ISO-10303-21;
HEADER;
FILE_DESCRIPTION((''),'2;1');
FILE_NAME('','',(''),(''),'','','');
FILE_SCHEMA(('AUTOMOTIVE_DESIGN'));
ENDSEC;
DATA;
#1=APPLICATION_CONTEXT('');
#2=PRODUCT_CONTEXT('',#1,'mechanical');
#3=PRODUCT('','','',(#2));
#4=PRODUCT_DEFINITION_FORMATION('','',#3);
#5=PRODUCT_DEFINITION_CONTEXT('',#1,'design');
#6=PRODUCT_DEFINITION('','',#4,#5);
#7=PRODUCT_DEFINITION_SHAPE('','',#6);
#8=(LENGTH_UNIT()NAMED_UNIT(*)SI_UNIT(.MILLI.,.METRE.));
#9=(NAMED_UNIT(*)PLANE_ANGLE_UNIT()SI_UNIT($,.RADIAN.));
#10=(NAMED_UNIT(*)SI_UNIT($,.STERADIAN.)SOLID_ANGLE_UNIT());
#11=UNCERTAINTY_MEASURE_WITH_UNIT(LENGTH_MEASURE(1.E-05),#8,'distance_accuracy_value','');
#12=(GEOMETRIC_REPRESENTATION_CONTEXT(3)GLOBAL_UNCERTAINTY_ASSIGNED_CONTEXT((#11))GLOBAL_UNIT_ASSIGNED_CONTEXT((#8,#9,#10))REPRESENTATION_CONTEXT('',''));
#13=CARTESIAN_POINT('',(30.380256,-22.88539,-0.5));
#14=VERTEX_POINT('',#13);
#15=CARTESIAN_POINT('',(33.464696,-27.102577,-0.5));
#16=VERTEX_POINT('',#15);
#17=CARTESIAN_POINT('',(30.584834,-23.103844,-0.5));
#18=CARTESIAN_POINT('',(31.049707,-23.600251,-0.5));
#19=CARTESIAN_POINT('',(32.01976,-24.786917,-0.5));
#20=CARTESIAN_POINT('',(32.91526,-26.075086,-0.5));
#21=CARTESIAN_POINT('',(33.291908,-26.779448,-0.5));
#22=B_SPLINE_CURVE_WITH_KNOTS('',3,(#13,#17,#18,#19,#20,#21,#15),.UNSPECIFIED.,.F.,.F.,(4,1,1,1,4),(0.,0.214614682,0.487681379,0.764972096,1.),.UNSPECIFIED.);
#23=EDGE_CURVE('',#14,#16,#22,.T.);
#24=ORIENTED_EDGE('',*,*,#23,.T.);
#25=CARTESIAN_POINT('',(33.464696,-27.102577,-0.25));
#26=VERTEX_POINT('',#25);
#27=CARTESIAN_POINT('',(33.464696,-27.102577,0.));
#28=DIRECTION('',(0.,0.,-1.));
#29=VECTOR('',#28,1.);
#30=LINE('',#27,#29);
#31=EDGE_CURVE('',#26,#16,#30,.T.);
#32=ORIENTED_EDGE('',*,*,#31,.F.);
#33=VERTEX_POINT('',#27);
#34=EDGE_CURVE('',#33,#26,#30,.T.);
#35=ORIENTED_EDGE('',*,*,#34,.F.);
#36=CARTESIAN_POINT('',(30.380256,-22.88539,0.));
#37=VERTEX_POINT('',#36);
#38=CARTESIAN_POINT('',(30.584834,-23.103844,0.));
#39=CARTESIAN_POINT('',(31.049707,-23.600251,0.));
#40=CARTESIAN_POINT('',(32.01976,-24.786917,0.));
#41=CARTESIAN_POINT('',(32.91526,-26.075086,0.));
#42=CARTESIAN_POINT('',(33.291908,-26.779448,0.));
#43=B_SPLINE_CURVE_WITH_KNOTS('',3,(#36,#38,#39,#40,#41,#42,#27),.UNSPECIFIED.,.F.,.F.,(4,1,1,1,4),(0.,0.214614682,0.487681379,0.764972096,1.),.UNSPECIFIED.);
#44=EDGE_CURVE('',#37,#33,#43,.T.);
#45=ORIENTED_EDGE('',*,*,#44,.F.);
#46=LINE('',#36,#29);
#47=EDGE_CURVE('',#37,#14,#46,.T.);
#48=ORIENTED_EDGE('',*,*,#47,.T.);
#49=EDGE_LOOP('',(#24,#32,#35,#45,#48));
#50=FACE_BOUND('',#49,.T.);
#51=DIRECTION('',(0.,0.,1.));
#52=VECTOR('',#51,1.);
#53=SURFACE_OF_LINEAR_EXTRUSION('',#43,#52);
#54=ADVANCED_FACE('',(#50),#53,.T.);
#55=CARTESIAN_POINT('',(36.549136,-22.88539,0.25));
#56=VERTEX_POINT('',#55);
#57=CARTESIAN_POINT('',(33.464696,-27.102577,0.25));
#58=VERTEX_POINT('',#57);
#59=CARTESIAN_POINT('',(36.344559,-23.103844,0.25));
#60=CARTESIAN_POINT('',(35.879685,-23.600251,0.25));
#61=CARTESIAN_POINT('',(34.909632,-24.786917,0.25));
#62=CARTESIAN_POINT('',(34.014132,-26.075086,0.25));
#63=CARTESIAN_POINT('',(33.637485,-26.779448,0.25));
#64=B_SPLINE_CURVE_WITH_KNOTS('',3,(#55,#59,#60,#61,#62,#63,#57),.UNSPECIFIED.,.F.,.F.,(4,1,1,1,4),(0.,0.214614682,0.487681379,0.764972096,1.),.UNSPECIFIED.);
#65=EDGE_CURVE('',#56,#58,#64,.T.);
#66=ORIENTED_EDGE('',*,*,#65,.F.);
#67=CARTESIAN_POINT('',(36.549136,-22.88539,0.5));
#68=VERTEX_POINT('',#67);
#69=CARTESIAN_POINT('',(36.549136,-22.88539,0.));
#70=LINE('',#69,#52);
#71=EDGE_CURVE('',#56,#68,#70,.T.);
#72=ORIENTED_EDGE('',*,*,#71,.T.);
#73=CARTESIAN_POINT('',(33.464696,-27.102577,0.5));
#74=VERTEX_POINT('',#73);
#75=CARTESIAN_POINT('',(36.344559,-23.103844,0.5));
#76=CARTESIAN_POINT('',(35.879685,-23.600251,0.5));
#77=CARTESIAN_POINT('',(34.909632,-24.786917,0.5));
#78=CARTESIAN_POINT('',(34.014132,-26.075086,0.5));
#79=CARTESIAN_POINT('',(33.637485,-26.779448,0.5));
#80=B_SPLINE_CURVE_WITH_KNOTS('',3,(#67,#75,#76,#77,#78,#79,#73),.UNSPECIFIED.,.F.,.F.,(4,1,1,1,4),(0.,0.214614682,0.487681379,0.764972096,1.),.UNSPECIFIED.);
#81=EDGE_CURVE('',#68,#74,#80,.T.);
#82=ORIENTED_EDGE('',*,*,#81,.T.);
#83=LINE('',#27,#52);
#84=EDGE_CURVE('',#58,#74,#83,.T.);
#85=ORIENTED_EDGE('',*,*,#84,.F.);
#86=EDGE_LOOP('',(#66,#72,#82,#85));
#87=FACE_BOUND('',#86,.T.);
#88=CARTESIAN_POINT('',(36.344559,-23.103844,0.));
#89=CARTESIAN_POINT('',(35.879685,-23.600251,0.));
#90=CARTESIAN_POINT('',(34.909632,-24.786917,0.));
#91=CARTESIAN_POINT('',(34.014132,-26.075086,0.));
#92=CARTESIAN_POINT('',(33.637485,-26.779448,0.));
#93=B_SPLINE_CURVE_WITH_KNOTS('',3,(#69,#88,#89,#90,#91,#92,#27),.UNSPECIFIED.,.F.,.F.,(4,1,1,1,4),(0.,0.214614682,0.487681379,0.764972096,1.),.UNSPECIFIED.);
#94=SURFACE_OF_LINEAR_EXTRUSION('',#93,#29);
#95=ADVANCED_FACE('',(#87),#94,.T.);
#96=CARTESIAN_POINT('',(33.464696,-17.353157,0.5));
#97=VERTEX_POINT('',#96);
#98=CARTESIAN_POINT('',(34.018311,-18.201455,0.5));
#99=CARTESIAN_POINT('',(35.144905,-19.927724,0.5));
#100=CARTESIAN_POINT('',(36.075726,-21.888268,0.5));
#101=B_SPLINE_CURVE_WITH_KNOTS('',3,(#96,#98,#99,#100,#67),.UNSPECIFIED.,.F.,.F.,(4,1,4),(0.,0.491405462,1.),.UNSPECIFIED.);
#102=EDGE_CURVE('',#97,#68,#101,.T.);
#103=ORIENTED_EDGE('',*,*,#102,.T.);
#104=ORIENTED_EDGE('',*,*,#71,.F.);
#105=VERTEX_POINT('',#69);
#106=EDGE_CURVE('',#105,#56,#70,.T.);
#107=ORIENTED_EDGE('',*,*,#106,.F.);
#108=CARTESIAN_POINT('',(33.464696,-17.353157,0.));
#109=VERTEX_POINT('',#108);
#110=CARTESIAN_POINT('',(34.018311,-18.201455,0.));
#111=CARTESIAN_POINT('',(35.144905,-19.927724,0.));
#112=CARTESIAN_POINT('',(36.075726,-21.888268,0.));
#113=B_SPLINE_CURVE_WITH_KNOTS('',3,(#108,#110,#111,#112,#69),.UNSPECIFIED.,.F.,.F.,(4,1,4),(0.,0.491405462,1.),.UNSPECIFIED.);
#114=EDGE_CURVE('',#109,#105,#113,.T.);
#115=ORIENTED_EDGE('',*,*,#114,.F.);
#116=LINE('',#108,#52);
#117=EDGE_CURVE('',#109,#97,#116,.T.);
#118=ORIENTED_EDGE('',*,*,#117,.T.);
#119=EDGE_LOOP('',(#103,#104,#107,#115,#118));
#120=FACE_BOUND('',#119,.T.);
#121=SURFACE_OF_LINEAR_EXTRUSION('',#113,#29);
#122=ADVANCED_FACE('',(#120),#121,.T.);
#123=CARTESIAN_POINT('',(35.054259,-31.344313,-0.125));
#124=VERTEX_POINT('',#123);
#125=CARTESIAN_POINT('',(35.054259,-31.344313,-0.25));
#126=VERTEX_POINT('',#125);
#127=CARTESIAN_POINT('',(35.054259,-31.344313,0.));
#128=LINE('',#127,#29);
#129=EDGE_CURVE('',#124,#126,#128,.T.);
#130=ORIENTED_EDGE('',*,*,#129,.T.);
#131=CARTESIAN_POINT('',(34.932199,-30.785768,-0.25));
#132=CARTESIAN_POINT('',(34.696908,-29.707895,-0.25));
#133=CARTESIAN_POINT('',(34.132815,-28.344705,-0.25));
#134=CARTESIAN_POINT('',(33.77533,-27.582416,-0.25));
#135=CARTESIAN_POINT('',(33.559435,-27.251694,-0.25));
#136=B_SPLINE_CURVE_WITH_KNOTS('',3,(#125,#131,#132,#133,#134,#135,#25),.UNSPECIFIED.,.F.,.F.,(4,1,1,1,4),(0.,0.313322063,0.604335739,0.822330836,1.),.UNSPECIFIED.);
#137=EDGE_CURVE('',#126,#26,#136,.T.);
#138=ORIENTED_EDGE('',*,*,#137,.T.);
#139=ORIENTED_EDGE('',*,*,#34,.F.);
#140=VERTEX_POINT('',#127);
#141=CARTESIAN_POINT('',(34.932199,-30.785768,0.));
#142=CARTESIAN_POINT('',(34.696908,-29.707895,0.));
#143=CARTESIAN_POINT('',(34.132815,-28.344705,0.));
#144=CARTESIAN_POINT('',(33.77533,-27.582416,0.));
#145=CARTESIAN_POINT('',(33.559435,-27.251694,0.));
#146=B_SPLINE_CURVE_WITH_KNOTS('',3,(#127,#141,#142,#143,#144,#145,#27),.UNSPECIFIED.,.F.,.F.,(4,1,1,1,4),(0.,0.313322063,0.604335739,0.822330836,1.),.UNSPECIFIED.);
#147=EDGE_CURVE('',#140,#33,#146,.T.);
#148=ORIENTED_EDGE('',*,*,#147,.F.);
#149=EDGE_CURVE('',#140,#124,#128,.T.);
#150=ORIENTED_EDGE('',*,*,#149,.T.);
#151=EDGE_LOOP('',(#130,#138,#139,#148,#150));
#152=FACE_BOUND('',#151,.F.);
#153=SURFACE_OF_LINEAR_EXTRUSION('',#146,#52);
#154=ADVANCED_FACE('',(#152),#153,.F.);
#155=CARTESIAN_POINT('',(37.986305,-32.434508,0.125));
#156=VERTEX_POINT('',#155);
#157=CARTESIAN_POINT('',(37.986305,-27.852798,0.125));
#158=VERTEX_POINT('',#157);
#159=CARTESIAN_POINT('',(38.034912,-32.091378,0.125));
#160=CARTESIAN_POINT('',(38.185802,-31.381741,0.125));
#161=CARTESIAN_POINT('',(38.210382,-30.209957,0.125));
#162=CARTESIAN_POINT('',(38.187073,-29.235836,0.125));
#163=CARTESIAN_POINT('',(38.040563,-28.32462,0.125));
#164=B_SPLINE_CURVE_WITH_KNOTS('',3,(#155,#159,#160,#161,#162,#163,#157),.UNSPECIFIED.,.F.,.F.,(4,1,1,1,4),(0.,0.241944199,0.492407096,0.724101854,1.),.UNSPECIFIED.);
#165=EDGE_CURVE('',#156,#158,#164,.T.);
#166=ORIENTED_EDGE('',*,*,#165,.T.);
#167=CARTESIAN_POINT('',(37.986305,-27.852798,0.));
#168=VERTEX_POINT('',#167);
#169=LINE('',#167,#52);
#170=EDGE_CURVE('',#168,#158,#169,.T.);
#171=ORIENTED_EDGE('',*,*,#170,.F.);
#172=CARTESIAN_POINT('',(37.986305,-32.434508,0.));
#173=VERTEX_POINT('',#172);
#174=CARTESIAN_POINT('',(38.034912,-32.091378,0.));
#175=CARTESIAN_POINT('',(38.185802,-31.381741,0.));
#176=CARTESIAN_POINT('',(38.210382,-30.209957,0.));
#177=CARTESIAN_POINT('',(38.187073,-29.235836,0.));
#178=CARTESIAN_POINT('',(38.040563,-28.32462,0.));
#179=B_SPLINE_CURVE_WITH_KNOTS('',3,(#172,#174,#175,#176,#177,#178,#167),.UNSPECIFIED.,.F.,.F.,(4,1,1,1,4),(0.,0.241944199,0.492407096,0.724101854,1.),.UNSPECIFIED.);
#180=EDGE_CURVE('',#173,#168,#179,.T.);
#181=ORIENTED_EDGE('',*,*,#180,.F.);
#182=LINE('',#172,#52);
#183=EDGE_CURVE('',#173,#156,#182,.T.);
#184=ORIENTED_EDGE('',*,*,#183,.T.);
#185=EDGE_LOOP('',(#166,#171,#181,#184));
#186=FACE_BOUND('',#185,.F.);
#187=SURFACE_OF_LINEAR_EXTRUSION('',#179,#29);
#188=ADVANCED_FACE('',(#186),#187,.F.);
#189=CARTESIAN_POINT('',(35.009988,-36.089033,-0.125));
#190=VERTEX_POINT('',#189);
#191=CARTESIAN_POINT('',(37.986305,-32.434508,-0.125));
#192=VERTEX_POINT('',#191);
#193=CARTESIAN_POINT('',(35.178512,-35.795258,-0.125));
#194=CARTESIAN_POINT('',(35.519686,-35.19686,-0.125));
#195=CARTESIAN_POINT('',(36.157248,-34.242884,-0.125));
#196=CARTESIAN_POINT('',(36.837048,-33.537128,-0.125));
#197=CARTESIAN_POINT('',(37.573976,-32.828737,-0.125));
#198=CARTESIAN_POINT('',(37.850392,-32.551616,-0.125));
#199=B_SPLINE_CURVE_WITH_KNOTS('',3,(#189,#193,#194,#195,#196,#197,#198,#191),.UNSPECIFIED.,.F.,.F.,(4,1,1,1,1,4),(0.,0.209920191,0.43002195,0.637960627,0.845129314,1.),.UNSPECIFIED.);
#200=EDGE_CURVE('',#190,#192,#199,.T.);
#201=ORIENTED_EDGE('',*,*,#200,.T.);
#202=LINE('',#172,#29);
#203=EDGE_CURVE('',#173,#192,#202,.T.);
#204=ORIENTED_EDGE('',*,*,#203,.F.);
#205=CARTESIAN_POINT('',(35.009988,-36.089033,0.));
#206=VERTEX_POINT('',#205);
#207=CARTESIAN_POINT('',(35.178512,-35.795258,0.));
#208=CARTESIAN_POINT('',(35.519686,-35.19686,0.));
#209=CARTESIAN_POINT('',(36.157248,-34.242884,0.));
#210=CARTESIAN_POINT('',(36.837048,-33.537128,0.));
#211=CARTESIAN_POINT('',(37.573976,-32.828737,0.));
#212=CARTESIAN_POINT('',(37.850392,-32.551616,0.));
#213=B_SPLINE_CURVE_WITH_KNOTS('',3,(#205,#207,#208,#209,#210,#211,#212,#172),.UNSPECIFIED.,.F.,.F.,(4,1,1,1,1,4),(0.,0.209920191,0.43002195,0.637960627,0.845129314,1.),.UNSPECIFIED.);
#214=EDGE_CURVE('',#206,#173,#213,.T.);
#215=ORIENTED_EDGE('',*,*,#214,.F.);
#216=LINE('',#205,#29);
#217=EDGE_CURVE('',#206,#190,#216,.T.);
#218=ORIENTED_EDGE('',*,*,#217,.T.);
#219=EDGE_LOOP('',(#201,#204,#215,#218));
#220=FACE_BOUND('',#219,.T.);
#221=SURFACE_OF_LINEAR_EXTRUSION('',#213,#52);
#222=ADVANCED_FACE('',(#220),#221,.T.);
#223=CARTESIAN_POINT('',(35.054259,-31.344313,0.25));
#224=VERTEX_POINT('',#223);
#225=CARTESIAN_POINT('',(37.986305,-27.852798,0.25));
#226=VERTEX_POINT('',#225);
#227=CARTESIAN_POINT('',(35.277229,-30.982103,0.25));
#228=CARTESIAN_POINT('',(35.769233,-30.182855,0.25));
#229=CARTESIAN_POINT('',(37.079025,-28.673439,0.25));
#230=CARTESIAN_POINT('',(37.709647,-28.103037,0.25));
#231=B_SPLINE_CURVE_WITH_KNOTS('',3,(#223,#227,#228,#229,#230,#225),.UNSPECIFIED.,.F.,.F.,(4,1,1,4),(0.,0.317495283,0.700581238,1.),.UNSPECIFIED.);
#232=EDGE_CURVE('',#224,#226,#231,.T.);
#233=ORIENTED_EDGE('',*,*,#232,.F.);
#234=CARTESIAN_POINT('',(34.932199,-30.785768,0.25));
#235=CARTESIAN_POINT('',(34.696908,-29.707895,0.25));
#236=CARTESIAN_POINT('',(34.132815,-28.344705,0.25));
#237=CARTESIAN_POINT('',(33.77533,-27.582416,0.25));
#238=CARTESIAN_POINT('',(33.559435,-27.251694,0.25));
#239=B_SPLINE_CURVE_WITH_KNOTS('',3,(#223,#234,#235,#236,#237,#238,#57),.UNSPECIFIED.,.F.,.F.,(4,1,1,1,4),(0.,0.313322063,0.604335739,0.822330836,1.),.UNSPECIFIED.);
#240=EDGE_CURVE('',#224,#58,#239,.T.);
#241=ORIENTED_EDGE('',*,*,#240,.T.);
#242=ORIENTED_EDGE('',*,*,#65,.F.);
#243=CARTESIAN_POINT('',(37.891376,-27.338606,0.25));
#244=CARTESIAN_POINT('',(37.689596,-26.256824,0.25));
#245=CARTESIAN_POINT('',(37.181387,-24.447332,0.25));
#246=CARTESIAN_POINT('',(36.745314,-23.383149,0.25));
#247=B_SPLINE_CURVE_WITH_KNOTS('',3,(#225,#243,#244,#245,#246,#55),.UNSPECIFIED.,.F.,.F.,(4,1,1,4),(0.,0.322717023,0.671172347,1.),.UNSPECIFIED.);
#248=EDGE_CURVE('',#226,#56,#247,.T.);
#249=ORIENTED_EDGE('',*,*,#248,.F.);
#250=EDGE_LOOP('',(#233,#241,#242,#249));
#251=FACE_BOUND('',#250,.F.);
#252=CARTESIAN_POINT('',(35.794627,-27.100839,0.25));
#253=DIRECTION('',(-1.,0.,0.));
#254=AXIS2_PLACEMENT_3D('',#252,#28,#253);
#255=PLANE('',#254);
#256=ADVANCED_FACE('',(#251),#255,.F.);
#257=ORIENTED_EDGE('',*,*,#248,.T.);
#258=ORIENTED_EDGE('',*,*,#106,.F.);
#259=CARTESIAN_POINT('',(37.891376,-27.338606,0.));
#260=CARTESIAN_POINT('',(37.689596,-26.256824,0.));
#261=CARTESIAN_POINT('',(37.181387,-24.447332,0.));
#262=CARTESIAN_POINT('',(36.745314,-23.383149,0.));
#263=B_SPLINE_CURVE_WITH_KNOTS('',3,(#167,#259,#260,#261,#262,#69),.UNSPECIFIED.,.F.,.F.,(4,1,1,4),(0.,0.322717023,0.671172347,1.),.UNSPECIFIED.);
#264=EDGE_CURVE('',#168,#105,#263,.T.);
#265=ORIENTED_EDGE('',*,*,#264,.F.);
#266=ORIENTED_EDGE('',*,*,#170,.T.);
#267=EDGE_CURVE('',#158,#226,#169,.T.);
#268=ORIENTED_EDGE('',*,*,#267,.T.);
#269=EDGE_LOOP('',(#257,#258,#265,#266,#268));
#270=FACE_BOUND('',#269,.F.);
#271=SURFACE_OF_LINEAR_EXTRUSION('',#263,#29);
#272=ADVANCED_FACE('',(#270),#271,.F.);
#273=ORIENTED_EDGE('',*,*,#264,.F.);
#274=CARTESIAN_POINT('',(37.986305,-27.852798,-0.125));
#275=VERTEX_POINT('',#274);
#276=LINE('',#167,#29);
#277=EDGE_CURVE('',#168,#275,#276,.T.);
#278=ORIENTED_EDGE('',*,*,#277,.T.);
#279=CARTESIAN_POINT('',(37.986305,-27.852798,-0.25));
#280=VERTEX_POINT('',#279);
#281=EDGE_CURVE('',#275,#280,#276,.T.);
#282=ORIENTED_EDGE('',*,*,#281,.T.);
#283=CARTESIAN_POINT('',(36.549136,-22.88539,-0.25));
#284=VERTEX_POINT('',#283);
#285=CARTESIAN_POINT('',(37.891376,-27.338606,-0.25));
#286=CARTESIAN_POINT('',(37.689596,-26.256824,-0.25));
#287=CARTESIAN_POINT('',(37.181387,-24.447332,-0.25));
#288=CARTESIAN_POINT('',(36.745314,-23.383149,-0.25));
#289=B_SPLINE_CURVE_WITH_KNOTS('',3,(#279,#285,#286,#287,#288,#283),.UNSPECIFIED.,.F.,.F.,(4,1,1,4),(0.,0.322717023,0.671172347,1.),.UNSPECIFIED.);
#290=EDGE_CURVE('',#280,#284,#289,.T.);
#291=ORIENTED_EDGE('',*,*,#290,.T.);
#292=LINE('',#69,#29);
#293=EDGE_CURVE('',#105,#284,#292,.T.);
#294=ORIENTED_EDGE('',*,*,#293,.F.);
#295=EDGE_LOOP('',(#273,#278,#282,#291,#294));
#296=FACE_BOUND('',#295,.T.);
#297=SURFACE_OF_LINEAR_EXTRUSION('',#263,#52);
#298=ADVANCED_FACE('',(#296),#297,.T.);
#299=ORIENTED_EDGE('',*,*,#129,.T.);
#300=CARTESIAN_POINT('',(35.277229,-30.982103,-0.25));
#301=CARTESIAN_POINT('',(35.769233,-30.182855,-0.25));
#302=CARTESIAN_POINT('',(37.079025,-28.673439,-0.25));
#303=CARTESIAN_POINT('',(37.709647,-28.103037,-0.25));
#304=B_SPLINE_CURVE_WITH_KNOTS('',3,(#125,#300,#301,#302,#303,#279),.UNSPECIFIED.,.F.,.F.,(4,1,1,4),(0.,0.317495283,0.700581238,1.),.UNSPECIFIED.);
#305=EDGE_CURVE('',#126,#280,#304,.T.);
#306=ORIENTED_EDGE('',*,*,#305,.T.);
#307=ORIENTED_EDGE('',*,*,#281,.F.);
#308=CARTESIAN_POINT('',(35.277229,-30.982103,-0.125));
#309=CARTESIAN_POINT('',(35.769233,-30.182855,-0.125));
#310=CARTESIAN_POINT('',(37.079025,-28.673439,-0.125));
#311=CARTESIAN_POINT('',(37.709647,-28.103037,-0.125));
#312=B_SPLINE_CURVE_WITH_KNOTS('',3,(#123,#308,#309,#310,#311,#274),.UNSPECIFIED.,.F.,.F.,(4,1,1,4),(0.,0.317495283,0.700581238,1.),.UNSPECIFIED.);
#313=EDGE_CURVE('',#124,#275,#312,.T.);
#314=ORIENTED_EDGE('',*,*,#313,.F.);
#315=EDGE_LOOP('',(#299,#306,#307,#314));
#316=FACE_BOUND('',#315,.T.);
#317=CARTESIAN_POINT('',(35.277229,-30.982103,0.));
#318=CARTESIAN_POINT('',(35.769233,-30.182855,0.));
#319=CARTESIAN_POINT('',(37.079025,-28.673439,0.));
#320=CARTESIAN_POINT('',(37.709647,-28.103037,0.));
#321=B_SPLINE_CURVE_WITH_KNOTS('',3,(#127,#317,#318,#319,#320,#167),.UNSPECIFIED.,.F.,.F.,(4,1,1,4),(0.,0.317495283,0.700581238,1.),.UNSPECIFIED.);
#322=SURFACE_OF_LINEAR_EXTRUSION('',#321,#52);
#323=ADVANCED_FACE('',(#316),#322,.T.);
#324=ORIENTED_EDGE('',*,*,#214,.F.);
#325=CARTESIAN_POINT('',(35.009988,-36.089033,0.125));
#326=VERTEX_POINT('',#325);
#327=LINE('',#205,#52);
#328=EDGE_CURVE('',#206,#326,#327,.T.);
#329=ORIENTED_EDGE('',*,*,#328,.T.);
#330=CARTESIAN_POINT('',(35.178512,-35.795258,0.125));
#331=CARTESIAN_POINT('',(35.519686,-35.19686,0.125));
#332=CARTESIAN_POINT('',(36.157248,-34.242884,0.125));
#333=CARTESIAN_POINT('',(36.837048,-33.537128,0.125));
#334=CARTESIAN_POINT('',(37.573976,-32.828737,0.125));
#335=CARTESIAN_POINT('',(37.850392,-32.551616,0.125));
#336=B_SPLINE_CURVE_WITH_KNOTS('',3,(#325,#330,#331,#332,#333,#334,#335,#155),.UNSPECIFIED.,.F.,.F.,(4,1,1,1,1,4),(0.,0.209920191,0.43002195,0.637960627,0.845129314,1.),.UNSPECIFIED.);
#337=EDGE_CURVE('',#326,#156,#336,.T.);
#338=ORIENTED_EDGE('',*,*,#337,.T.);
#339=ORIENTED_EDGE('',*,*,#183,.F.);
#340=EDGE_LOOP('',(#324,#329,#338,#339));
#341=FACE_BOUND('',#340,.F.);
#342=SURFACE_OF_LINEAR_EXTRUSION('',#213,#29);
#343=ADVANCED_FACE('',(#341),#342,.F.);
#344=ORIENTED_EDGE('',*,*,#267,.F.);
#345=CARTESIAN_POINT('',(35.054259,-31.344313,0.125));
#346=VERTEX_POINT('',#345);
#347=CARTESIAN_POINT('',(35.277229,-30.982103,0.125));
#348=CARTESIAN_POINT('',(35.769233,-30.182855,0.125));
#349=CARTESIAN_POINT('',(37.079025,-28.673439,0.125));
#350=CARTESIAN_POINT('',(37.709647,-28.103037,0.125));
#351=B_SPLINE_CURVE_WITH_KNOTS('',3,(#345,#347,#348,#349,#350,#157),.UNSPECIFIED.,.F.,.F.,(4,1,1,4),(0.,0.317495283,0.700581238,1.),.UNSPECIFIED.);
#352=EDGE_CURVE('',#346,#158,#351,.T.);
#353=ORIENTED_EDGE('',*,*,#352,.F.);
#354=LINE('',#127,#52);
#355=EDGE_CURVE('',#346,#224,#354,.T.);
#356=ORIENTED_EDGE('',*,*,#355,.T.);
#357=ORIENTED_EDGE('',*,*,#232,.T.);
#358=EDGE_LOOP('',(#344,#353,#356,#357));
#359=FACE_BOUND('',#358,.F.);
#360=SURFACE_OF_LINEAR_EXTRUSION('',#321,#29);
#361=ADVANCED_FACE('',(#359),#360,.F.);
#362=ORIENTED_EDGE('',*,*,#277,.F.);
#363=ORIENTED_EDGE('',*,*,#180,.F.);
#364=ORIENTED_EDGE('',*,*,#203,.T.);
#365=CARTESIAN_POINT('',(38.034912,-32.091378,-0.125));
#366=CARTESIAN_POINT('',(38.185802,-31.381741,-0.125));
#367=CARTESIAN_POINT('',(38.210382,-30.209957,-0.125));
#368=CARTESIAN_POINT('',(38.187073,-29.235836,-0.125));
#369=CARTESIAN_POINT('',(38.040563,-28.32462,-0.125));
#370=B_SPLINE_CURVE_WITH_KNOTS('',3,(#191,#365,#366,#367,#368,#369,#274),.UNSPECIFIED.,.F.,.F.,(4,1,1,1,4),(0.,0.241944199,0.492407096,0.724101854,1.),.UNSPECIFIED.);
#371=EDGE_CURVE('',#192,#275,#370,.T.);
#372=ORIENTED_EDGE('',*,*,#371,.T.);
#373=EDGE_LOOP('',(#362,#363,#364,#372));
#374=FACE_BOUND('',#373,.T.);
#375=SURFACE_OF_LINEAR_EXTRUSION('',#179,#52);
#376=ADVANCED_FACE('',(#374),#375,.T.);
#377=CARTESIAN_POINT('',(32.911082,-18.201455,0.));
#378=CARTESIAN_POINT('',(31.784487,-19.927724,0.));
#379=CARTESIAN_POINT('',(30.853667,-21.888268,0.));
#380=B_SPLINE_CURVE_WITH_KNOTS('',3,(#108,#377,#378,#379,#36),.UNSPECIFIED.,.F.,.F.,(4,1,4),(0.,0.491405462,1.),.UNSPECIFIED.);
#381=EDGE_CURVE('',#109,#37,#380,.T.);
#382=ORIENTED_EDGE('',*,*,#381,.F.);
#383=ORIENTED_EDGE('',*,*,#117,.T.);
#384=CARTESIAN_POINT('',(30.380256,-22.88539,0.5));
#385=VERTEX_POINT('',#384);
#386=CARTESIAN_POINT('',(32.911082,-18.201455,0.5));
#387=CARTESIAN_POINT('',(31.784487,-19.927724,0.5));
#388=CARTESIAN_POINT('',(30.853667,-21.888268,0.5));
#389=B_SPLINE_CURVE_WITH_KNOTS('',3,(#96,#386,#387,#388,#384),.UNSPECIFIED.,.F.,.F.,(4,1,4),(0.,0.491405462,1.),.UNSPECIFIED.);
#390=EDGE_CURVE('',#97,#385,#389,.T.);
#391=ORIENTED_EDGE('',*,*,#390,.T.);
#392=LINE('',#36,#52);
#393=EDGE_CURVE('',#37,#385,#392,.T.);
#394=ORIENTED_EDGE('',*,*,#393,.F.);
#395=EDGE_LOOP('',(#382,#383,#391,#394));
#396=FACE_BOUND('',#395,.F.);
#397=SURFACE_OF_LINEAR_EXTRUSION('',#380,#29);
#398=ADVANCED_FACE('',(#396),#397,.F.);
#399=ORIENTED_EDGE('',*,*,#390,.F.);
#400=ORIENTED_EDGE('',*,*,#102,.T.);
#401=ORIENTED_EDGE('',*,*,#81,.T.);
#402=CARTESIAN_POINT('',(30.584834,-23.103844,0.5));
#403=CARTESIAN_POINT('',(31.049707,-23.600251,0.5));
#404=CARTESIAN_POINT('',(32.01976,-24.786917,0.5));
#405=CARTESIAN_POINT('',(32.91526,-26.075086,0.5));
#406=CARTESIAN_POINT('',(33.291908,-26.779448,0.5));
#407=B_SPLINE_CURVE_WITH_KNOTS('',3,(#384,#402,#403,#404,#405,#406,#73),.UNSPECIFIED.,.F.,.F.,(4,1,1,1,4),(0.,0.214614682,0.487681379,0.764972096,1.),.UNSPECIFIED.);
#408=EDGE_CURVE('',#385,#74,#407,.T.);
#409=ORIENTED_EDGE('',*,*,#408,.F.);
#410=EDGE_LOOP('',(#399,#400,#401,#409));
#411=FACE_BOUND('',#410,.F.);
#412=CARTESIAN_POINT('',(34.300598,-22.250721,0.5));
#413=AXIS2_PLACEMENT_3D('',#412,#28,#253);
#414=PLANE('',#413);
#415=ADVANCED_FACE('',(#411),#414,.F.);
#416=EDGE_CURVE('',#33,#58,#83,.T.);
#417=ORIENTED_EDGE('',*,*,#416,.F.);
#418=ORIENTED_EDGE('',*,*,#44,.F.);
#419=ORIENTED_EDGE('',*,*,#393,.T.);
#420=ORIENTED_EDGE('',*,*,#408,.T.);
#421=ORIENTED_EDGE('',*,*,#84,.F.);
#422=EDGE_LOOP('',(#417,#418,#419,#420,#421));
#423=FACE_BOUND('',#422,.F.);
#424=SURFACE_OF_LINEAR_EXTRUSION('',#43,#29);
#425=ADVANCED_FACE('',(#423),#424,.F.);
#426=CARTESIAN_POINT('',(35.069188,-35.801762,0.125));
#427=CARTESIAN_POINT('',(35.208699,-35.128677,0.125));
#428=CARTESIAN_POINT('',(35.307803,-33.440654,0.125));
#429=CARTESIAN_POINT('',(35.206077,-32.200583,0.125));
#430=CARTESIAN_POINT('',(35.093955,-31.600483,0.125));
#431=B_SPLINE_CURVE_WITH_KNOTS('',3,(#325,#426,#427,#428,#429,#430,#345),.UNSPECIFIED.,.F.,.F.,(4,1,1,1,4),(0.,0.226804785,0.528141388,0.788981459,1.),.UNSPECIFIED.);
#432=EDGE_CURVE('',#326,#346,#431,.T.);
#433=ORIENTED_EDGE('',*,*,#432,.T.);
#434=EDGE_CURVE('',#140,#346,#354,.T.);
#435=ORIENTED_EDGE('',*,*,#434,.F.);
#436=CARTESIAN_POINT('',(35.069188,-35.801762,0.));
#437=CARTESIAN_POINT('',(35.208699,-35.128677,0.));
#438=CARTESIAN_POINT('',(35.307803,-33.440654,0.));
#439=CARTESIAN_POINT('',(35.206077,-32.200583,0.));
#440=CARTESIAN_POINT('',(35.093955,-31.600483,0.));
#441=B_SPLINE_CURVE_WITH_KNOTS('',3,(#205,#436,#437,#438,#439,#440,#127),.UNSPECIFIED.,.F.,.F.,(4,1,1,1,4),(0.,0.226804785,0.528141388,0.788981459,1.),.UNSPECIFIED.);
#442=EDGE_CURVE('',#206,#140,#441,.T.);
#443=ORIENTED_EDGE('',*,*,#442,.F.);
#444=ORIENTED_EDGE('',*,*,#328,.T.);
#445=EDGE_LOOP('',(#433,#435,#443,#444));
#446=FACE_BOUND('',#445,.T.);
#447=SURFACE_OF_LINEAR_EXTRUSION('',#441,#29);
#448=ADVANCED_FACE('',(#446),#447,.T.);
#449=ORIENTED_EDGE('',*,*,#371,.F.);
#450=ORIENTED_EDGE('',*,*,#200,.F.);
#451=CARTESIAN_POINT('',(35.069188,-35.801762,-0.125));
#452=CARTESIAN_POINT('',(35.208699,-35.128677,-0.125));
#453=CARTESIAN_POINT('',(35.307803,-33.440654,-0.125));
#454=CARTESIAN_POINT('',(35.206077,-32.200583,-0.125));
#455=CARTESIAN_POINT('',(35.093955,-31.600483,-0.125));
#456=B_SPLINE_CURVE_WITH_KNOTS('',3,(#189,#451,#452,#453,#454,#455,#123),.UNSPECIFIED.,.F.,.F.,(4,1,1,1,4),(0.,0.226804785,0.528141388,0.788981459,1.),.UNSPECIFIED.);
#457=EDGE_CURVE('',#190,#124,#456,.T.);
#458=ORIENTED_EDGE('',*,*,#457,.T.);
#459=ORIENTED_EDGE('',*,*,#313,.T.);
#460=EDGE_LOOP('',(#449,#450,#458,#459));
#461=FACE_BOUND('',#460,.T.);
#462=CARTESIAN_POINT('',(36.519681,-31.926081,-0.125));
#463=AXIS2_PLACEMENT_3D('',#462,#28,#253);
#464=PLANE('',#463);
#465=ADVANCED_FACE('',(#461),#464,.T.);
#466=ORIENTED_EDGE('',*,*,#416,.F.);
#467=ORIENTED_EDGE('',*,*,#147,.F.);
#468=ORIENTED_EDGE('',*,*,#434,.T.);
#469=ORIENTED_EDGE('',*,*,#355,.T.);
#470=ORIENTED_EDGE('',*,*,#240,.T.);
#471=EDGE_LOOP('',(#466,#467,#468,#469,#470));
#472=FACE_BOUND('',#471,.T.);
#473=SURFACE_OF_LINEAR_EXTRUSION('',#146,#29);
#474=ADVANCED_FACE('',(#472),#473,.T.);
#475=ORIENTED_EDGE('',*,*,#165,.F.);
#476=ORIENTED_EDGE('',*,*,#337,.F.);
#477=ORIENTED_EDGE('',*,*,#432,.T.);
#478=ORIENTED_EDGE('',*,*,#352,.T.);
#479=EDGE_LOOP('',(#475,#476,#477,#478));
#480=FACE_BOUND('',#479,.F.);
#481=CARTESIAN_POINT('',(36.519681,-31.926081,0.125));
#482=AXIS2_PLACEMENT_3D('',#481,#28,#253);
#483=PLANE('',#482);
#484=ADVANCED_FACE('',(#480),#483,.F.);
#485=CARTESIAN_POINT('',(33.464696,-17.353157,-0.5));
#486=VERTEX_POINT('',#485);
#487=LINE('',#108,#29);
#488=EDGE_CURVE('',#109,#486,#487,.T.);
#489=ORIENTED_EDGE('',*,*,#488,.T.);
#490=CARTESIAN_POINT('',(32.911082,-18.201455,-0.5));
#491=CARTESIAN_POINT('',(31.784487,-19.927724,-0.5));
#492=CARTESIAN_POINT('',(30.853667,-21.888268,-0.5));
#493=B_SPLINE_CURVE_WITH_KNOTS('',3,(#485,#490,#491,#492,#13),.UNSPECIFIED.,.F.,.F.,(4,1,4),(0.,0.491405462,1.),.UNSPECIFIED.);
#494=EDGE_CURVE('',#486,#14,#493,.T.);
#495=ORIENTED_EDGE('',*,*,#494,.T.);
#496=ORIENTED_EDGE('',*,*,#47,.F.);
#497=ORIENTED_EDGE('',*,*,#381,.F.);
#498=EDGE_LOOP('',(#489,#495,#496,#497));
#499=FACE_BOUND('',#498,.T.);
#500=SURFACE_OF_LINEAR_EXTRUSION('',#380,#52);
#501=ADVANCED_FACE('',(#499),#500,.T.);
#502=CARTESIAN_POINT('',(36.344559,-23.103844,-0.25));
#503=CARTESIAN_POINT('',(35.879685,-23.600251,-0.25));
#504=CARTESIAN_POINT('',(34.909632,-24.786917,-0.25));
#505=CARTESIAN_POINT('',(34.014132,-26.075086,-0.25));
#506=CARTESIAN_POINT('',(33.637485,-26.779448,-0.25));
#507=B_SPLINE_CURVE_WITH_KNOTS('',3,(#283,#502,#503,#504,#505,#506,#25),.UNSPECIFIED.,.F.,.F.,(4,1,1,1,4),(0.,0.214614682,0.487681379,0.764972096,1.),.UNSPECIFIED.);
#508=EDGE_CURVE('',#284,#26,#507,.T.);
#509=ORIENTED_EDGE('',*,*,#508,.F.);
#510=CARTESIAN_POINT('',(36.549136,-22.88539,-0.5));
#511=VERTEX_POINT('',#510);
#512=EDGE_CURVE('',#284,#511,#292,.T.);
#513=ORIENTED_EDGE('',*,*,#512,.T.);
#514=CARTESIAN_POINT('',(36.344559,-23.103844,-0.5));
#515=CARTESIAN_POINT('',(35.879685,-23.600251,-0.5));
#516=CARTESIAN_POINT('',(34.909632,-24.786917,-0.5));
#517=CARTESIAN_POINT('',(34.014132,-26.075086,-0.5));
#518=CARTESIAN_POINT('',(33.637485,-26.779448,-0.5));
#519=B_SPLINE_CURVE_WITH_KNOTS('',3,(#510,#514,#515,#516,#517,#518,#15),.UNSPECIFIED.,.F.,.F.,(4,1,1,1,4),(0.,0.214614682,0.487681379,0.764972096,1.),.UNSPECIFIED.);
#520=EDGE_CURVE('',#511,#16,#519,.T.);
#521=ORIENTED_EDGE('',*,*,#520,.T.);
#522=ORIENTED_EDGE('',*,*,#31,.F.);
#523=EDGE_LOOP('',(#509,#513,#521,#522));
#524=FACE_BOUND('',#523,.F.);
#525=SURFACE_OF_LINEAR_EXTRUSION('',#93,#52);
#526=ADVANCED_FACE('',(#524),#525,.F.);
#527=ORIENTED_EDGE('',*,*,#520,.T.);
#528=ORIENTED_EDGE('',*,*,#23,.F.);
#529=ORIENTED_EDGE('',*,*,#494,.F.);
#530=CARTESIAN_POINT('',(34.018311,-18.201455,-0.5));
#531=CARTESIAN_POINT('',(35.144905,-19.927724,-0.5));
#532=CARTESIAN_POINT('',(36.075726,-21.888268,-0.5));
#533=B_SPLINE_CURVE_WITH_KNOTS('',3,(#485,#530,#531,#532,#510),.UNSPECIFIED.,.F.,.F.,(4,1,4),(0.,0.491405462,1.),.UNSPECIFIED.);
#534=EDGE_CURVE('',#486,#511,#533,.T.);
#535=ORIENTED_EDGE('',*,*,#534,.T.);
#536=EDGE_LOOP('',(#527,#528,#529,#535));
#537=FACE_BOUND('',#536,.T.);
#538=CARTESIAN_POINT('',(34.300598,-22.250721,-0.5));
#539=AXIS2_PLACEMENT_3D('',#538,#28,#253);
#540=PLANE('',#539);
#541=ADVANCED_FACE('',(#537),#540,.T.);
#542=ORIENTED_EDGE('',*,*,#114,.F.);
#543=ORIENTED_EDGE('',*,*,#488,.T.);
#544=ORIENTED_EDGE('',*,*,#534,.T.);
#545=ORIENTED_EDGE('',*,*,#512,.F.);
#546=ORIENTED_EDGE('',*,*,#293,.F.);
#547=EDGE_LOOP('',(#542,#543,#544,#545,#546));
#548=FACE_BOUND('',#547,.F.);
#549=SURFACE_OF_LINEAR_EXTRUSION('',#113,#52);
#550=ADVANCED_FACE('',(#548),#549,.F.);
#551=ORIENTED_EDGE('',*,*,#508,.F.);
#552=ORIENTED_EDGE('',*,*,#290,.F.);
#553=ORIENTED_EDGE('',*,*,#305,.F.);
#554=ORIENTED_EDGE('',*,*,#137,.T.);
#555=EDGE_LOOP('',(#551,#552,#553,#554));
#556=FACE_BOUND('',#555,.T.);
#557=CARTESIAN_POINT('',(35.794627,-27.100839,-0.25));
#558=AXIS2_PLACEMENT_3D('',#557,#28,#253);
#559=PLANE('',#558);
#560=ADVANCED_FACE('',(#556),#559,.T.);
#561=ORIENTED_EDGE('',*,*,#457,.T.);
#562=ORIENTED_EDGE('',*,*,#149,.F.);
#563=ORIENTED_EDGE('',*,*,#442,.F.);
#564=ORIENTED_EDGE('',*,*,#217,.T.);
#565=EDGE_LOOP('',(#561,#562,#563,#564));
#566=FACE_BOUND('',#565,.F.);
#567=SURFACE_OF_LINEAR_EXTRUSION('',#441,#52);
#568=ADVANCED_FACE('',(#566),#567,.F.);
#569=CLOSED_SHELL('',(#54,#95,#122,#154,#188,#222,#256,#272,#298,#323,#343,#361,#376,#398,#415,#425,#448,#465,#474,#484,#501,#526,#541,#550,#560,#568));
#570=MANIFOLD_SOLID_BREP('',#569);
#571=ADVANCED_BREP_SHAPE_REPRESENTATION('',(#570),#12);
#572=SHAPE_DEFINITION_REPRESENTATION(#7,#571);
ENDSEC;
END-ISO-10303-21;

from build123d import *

# Parameters (mm, degrees)
F3_DEPTH = 0.5
F4_DEPTH = 0.25
F5_DEPTH = 0.125


with BuildPart() as f3:
    # F0 (on Top) → F3 (new body, symmetric)
    with BuildSketch(Plane.XY):
        with BuildLine():
            add(Edge.make_bspline(
                [(33.4646962583, -17.3531565815), (34.0183108685, -18.2014548185), (35.1449052053, -19.9277242701), (36.0757257814, -21.8882678628), (36.5491360426, -22.885389626)],
                knots=[0, 0, 0, 0, 0.4914054617, 1, 1, 1, 1], degree=3))
            Line((33.4646962583, -17.3531565815), (33.4646962583, -27.1025765687))
            add(Edge.make_bspline(
                [(36.5491360426, -22.885389626), (36.3445585773, -23.1038442345), (35.8796853463, -23.6002513022), (34.9096324661, -24.7869173938), (34.0141321874, -26.0750864021), (33.6374846111, -26.7794482037), (33.4646962583, -27.1025765687)],
                knots=[0, 0, 0, 0, 0.2146146816, 0.4876813793, 0.7649720955, 1, 1, 1, 1], degree=3))
        make_face()
        with BuildLine():
            Line((33.4646962583, -27.1025765687), (33.4646962583, -17.3531565815))
            add(Edge.make_bspline(
                [(33.4646962583, -17.3531565815), (32.9110816481, -18.2014548185), (31.7844873114, -19.9277242701), (30.8536667352, -21.8882678628), (30.380256474, -22.885389626)],
                knots=[0, 0, 0, 0, 0.4914054617, 1, 1, 1, 1], degree=3))
            add(Edge.make_bspline(
                [(30.380256474, -22.885389626), (30.5848339393, -23.1038442345), (31.0497071704, -23.6002513022), (32.0197600505, -24.7869173938), (32.9152603292, -26.0750864021), (33.2919079055, -26.7794482037), (33.4646962583, -27.1025765687)],
                knots=[0, 0, 0, 0, 0.2146146816, 0.4876813793, 0.7649720955, 1, 1, 1, 1], degree=3))
        make_face()
    extrude(amount=F3_DEPTH, both=True)

    # F1 (on Top) → F4 (join, symmetric)
    with BuildSketch(Plane.XY):
        with BuildLine():
            add(Edge.make_bspline(
                [(35.0542590022, -31.3443131745), (34.9321986711, -30.7857678371), (34.6969077554, -29.7078948129), (34.132815237, -28.3447046876), (33.7753301671, -27.5824159663), (33.5594348558, -27.2516943021), (33.4646962583, -27.1025765687)],
                knots=[0, 0, 0, 0, 0.3133220633, 0.6043357393, 0.8223308356, 1, 1, 1, 1], degree=3))
            add(Edge.make_bspline(
                [(35.0542590022, -31.3443131745), (35.2772294367, -30.9821031837), (35.7692332915, -30.1828550139), (37.0790252489, -28.6734392692), (37.7096471433, -28.1030367575), (37.986304611, -27.8527978808)],
                knots=[0, 0, 0, 0, 0.3174952829, 0.7005812383, 1, 1, 1, 1], degree=3))
            add(Edge.make_bspline(
                [(37.986304611, -27.8527978808), (37.8913761068, -27.3386059194), (37.6895959259, -26.2568236513), (37.1813869776, -24.4473320709), (36.7453139366, -23.3831491328), (36.5491360426, -22.885389626)],
                knots=[0, 0, 0, 0, 0.3227170226, 0.6711723471, 1, 1, 1, 1], degree=3))
            add(Edge.make_bspline(
                [(36.5491360426, -22.885389626), (36.3445585773, -23.1038442345), (35.8796853463, -23.6002513022), (34.9096324661, -24.7869173938), (34.0141321874, -26.0750864021), (33.6374846111, -26.7794482037), (33.4646962583, -27.1025765687)],
                knots=[0, 0, 0, 0, 0.2146146816, 0.4876813793, 0.7649720955, 1, 1, 1, 1], degree=3))
        make_face()
    extrude(amount=F4_DEPTH, both=True)

    # F2 (on Top) → F5 (join, symmetric)
    with BuildSketch(Plane.XY):
        with BuildLine():
            add(Edge.make_bspline(
                [(35.0099876523, -36.0890328884), (35.0691884535, -35.8017616591), (35.2086991521, -35.1286773781), (35.3078029344, -33.4406536261), (35.206077093, -32.2005833036), (35.0939553855, -31.6004826678), (35.0542590022, -31.3443131745)],
                knots=[0, 0, 0, 0, 0.2268047855, 0.5281413876, 0.7889814592, 1, 1, 1, 1], degree=3))
            add(Edge.make_bspline(
                [(35.0099876523, -36.0890328884), (35.1785122203, -35.7952578593), (35.5196858817, -35.1968595796), (36.1572480721, -34.2428839294), (36.8370476627, -33.5371282988), (37.5739759872, -32.8287365687), (37.8503923319, -32.5516161451), (37.986304611, -32.4345082045)],
                knots=[0, 0, 0, 0, 0.2099201912, 0.43002195, 0.637960627, 0.8451293142, 1, 1, 1, 1], degree=3))
            add(Edge.make_bspline(
                [(37.986304611, -32.4345082045), (38.0349117761, -32.091378108), (38.1858021608, -31.3817408763), (38.2103824602, -30.2099574058), (38.1870733454, -29.2358358547), (38.0405633584, -28.3246195438), (37.986304611, -27.8527978808)],
                knots=[0, 0, 0, 0, 0.2419441986, 0.4924070964, 0.724101854, 1, 1, 1, 1], degree=3))
            add(Edge.make_bspline(
                [(35.0542590022, -31.3443131745), (35.2772294367, -30.9821031837), (35.7692332915, -30.1828550139), (37.0790252489, -28.6734392692), (37.7096471433, -28.1030367575), (37.986304611, -27.8527978808)],
                knots=[0, 0, 0, 0, 0.3174952829, 0.7005812383, 1, 1, 1, 1], degree=3))
        make_face()
    extrude(amount=F5_DEPTH, both=True)


solid = f3.part
